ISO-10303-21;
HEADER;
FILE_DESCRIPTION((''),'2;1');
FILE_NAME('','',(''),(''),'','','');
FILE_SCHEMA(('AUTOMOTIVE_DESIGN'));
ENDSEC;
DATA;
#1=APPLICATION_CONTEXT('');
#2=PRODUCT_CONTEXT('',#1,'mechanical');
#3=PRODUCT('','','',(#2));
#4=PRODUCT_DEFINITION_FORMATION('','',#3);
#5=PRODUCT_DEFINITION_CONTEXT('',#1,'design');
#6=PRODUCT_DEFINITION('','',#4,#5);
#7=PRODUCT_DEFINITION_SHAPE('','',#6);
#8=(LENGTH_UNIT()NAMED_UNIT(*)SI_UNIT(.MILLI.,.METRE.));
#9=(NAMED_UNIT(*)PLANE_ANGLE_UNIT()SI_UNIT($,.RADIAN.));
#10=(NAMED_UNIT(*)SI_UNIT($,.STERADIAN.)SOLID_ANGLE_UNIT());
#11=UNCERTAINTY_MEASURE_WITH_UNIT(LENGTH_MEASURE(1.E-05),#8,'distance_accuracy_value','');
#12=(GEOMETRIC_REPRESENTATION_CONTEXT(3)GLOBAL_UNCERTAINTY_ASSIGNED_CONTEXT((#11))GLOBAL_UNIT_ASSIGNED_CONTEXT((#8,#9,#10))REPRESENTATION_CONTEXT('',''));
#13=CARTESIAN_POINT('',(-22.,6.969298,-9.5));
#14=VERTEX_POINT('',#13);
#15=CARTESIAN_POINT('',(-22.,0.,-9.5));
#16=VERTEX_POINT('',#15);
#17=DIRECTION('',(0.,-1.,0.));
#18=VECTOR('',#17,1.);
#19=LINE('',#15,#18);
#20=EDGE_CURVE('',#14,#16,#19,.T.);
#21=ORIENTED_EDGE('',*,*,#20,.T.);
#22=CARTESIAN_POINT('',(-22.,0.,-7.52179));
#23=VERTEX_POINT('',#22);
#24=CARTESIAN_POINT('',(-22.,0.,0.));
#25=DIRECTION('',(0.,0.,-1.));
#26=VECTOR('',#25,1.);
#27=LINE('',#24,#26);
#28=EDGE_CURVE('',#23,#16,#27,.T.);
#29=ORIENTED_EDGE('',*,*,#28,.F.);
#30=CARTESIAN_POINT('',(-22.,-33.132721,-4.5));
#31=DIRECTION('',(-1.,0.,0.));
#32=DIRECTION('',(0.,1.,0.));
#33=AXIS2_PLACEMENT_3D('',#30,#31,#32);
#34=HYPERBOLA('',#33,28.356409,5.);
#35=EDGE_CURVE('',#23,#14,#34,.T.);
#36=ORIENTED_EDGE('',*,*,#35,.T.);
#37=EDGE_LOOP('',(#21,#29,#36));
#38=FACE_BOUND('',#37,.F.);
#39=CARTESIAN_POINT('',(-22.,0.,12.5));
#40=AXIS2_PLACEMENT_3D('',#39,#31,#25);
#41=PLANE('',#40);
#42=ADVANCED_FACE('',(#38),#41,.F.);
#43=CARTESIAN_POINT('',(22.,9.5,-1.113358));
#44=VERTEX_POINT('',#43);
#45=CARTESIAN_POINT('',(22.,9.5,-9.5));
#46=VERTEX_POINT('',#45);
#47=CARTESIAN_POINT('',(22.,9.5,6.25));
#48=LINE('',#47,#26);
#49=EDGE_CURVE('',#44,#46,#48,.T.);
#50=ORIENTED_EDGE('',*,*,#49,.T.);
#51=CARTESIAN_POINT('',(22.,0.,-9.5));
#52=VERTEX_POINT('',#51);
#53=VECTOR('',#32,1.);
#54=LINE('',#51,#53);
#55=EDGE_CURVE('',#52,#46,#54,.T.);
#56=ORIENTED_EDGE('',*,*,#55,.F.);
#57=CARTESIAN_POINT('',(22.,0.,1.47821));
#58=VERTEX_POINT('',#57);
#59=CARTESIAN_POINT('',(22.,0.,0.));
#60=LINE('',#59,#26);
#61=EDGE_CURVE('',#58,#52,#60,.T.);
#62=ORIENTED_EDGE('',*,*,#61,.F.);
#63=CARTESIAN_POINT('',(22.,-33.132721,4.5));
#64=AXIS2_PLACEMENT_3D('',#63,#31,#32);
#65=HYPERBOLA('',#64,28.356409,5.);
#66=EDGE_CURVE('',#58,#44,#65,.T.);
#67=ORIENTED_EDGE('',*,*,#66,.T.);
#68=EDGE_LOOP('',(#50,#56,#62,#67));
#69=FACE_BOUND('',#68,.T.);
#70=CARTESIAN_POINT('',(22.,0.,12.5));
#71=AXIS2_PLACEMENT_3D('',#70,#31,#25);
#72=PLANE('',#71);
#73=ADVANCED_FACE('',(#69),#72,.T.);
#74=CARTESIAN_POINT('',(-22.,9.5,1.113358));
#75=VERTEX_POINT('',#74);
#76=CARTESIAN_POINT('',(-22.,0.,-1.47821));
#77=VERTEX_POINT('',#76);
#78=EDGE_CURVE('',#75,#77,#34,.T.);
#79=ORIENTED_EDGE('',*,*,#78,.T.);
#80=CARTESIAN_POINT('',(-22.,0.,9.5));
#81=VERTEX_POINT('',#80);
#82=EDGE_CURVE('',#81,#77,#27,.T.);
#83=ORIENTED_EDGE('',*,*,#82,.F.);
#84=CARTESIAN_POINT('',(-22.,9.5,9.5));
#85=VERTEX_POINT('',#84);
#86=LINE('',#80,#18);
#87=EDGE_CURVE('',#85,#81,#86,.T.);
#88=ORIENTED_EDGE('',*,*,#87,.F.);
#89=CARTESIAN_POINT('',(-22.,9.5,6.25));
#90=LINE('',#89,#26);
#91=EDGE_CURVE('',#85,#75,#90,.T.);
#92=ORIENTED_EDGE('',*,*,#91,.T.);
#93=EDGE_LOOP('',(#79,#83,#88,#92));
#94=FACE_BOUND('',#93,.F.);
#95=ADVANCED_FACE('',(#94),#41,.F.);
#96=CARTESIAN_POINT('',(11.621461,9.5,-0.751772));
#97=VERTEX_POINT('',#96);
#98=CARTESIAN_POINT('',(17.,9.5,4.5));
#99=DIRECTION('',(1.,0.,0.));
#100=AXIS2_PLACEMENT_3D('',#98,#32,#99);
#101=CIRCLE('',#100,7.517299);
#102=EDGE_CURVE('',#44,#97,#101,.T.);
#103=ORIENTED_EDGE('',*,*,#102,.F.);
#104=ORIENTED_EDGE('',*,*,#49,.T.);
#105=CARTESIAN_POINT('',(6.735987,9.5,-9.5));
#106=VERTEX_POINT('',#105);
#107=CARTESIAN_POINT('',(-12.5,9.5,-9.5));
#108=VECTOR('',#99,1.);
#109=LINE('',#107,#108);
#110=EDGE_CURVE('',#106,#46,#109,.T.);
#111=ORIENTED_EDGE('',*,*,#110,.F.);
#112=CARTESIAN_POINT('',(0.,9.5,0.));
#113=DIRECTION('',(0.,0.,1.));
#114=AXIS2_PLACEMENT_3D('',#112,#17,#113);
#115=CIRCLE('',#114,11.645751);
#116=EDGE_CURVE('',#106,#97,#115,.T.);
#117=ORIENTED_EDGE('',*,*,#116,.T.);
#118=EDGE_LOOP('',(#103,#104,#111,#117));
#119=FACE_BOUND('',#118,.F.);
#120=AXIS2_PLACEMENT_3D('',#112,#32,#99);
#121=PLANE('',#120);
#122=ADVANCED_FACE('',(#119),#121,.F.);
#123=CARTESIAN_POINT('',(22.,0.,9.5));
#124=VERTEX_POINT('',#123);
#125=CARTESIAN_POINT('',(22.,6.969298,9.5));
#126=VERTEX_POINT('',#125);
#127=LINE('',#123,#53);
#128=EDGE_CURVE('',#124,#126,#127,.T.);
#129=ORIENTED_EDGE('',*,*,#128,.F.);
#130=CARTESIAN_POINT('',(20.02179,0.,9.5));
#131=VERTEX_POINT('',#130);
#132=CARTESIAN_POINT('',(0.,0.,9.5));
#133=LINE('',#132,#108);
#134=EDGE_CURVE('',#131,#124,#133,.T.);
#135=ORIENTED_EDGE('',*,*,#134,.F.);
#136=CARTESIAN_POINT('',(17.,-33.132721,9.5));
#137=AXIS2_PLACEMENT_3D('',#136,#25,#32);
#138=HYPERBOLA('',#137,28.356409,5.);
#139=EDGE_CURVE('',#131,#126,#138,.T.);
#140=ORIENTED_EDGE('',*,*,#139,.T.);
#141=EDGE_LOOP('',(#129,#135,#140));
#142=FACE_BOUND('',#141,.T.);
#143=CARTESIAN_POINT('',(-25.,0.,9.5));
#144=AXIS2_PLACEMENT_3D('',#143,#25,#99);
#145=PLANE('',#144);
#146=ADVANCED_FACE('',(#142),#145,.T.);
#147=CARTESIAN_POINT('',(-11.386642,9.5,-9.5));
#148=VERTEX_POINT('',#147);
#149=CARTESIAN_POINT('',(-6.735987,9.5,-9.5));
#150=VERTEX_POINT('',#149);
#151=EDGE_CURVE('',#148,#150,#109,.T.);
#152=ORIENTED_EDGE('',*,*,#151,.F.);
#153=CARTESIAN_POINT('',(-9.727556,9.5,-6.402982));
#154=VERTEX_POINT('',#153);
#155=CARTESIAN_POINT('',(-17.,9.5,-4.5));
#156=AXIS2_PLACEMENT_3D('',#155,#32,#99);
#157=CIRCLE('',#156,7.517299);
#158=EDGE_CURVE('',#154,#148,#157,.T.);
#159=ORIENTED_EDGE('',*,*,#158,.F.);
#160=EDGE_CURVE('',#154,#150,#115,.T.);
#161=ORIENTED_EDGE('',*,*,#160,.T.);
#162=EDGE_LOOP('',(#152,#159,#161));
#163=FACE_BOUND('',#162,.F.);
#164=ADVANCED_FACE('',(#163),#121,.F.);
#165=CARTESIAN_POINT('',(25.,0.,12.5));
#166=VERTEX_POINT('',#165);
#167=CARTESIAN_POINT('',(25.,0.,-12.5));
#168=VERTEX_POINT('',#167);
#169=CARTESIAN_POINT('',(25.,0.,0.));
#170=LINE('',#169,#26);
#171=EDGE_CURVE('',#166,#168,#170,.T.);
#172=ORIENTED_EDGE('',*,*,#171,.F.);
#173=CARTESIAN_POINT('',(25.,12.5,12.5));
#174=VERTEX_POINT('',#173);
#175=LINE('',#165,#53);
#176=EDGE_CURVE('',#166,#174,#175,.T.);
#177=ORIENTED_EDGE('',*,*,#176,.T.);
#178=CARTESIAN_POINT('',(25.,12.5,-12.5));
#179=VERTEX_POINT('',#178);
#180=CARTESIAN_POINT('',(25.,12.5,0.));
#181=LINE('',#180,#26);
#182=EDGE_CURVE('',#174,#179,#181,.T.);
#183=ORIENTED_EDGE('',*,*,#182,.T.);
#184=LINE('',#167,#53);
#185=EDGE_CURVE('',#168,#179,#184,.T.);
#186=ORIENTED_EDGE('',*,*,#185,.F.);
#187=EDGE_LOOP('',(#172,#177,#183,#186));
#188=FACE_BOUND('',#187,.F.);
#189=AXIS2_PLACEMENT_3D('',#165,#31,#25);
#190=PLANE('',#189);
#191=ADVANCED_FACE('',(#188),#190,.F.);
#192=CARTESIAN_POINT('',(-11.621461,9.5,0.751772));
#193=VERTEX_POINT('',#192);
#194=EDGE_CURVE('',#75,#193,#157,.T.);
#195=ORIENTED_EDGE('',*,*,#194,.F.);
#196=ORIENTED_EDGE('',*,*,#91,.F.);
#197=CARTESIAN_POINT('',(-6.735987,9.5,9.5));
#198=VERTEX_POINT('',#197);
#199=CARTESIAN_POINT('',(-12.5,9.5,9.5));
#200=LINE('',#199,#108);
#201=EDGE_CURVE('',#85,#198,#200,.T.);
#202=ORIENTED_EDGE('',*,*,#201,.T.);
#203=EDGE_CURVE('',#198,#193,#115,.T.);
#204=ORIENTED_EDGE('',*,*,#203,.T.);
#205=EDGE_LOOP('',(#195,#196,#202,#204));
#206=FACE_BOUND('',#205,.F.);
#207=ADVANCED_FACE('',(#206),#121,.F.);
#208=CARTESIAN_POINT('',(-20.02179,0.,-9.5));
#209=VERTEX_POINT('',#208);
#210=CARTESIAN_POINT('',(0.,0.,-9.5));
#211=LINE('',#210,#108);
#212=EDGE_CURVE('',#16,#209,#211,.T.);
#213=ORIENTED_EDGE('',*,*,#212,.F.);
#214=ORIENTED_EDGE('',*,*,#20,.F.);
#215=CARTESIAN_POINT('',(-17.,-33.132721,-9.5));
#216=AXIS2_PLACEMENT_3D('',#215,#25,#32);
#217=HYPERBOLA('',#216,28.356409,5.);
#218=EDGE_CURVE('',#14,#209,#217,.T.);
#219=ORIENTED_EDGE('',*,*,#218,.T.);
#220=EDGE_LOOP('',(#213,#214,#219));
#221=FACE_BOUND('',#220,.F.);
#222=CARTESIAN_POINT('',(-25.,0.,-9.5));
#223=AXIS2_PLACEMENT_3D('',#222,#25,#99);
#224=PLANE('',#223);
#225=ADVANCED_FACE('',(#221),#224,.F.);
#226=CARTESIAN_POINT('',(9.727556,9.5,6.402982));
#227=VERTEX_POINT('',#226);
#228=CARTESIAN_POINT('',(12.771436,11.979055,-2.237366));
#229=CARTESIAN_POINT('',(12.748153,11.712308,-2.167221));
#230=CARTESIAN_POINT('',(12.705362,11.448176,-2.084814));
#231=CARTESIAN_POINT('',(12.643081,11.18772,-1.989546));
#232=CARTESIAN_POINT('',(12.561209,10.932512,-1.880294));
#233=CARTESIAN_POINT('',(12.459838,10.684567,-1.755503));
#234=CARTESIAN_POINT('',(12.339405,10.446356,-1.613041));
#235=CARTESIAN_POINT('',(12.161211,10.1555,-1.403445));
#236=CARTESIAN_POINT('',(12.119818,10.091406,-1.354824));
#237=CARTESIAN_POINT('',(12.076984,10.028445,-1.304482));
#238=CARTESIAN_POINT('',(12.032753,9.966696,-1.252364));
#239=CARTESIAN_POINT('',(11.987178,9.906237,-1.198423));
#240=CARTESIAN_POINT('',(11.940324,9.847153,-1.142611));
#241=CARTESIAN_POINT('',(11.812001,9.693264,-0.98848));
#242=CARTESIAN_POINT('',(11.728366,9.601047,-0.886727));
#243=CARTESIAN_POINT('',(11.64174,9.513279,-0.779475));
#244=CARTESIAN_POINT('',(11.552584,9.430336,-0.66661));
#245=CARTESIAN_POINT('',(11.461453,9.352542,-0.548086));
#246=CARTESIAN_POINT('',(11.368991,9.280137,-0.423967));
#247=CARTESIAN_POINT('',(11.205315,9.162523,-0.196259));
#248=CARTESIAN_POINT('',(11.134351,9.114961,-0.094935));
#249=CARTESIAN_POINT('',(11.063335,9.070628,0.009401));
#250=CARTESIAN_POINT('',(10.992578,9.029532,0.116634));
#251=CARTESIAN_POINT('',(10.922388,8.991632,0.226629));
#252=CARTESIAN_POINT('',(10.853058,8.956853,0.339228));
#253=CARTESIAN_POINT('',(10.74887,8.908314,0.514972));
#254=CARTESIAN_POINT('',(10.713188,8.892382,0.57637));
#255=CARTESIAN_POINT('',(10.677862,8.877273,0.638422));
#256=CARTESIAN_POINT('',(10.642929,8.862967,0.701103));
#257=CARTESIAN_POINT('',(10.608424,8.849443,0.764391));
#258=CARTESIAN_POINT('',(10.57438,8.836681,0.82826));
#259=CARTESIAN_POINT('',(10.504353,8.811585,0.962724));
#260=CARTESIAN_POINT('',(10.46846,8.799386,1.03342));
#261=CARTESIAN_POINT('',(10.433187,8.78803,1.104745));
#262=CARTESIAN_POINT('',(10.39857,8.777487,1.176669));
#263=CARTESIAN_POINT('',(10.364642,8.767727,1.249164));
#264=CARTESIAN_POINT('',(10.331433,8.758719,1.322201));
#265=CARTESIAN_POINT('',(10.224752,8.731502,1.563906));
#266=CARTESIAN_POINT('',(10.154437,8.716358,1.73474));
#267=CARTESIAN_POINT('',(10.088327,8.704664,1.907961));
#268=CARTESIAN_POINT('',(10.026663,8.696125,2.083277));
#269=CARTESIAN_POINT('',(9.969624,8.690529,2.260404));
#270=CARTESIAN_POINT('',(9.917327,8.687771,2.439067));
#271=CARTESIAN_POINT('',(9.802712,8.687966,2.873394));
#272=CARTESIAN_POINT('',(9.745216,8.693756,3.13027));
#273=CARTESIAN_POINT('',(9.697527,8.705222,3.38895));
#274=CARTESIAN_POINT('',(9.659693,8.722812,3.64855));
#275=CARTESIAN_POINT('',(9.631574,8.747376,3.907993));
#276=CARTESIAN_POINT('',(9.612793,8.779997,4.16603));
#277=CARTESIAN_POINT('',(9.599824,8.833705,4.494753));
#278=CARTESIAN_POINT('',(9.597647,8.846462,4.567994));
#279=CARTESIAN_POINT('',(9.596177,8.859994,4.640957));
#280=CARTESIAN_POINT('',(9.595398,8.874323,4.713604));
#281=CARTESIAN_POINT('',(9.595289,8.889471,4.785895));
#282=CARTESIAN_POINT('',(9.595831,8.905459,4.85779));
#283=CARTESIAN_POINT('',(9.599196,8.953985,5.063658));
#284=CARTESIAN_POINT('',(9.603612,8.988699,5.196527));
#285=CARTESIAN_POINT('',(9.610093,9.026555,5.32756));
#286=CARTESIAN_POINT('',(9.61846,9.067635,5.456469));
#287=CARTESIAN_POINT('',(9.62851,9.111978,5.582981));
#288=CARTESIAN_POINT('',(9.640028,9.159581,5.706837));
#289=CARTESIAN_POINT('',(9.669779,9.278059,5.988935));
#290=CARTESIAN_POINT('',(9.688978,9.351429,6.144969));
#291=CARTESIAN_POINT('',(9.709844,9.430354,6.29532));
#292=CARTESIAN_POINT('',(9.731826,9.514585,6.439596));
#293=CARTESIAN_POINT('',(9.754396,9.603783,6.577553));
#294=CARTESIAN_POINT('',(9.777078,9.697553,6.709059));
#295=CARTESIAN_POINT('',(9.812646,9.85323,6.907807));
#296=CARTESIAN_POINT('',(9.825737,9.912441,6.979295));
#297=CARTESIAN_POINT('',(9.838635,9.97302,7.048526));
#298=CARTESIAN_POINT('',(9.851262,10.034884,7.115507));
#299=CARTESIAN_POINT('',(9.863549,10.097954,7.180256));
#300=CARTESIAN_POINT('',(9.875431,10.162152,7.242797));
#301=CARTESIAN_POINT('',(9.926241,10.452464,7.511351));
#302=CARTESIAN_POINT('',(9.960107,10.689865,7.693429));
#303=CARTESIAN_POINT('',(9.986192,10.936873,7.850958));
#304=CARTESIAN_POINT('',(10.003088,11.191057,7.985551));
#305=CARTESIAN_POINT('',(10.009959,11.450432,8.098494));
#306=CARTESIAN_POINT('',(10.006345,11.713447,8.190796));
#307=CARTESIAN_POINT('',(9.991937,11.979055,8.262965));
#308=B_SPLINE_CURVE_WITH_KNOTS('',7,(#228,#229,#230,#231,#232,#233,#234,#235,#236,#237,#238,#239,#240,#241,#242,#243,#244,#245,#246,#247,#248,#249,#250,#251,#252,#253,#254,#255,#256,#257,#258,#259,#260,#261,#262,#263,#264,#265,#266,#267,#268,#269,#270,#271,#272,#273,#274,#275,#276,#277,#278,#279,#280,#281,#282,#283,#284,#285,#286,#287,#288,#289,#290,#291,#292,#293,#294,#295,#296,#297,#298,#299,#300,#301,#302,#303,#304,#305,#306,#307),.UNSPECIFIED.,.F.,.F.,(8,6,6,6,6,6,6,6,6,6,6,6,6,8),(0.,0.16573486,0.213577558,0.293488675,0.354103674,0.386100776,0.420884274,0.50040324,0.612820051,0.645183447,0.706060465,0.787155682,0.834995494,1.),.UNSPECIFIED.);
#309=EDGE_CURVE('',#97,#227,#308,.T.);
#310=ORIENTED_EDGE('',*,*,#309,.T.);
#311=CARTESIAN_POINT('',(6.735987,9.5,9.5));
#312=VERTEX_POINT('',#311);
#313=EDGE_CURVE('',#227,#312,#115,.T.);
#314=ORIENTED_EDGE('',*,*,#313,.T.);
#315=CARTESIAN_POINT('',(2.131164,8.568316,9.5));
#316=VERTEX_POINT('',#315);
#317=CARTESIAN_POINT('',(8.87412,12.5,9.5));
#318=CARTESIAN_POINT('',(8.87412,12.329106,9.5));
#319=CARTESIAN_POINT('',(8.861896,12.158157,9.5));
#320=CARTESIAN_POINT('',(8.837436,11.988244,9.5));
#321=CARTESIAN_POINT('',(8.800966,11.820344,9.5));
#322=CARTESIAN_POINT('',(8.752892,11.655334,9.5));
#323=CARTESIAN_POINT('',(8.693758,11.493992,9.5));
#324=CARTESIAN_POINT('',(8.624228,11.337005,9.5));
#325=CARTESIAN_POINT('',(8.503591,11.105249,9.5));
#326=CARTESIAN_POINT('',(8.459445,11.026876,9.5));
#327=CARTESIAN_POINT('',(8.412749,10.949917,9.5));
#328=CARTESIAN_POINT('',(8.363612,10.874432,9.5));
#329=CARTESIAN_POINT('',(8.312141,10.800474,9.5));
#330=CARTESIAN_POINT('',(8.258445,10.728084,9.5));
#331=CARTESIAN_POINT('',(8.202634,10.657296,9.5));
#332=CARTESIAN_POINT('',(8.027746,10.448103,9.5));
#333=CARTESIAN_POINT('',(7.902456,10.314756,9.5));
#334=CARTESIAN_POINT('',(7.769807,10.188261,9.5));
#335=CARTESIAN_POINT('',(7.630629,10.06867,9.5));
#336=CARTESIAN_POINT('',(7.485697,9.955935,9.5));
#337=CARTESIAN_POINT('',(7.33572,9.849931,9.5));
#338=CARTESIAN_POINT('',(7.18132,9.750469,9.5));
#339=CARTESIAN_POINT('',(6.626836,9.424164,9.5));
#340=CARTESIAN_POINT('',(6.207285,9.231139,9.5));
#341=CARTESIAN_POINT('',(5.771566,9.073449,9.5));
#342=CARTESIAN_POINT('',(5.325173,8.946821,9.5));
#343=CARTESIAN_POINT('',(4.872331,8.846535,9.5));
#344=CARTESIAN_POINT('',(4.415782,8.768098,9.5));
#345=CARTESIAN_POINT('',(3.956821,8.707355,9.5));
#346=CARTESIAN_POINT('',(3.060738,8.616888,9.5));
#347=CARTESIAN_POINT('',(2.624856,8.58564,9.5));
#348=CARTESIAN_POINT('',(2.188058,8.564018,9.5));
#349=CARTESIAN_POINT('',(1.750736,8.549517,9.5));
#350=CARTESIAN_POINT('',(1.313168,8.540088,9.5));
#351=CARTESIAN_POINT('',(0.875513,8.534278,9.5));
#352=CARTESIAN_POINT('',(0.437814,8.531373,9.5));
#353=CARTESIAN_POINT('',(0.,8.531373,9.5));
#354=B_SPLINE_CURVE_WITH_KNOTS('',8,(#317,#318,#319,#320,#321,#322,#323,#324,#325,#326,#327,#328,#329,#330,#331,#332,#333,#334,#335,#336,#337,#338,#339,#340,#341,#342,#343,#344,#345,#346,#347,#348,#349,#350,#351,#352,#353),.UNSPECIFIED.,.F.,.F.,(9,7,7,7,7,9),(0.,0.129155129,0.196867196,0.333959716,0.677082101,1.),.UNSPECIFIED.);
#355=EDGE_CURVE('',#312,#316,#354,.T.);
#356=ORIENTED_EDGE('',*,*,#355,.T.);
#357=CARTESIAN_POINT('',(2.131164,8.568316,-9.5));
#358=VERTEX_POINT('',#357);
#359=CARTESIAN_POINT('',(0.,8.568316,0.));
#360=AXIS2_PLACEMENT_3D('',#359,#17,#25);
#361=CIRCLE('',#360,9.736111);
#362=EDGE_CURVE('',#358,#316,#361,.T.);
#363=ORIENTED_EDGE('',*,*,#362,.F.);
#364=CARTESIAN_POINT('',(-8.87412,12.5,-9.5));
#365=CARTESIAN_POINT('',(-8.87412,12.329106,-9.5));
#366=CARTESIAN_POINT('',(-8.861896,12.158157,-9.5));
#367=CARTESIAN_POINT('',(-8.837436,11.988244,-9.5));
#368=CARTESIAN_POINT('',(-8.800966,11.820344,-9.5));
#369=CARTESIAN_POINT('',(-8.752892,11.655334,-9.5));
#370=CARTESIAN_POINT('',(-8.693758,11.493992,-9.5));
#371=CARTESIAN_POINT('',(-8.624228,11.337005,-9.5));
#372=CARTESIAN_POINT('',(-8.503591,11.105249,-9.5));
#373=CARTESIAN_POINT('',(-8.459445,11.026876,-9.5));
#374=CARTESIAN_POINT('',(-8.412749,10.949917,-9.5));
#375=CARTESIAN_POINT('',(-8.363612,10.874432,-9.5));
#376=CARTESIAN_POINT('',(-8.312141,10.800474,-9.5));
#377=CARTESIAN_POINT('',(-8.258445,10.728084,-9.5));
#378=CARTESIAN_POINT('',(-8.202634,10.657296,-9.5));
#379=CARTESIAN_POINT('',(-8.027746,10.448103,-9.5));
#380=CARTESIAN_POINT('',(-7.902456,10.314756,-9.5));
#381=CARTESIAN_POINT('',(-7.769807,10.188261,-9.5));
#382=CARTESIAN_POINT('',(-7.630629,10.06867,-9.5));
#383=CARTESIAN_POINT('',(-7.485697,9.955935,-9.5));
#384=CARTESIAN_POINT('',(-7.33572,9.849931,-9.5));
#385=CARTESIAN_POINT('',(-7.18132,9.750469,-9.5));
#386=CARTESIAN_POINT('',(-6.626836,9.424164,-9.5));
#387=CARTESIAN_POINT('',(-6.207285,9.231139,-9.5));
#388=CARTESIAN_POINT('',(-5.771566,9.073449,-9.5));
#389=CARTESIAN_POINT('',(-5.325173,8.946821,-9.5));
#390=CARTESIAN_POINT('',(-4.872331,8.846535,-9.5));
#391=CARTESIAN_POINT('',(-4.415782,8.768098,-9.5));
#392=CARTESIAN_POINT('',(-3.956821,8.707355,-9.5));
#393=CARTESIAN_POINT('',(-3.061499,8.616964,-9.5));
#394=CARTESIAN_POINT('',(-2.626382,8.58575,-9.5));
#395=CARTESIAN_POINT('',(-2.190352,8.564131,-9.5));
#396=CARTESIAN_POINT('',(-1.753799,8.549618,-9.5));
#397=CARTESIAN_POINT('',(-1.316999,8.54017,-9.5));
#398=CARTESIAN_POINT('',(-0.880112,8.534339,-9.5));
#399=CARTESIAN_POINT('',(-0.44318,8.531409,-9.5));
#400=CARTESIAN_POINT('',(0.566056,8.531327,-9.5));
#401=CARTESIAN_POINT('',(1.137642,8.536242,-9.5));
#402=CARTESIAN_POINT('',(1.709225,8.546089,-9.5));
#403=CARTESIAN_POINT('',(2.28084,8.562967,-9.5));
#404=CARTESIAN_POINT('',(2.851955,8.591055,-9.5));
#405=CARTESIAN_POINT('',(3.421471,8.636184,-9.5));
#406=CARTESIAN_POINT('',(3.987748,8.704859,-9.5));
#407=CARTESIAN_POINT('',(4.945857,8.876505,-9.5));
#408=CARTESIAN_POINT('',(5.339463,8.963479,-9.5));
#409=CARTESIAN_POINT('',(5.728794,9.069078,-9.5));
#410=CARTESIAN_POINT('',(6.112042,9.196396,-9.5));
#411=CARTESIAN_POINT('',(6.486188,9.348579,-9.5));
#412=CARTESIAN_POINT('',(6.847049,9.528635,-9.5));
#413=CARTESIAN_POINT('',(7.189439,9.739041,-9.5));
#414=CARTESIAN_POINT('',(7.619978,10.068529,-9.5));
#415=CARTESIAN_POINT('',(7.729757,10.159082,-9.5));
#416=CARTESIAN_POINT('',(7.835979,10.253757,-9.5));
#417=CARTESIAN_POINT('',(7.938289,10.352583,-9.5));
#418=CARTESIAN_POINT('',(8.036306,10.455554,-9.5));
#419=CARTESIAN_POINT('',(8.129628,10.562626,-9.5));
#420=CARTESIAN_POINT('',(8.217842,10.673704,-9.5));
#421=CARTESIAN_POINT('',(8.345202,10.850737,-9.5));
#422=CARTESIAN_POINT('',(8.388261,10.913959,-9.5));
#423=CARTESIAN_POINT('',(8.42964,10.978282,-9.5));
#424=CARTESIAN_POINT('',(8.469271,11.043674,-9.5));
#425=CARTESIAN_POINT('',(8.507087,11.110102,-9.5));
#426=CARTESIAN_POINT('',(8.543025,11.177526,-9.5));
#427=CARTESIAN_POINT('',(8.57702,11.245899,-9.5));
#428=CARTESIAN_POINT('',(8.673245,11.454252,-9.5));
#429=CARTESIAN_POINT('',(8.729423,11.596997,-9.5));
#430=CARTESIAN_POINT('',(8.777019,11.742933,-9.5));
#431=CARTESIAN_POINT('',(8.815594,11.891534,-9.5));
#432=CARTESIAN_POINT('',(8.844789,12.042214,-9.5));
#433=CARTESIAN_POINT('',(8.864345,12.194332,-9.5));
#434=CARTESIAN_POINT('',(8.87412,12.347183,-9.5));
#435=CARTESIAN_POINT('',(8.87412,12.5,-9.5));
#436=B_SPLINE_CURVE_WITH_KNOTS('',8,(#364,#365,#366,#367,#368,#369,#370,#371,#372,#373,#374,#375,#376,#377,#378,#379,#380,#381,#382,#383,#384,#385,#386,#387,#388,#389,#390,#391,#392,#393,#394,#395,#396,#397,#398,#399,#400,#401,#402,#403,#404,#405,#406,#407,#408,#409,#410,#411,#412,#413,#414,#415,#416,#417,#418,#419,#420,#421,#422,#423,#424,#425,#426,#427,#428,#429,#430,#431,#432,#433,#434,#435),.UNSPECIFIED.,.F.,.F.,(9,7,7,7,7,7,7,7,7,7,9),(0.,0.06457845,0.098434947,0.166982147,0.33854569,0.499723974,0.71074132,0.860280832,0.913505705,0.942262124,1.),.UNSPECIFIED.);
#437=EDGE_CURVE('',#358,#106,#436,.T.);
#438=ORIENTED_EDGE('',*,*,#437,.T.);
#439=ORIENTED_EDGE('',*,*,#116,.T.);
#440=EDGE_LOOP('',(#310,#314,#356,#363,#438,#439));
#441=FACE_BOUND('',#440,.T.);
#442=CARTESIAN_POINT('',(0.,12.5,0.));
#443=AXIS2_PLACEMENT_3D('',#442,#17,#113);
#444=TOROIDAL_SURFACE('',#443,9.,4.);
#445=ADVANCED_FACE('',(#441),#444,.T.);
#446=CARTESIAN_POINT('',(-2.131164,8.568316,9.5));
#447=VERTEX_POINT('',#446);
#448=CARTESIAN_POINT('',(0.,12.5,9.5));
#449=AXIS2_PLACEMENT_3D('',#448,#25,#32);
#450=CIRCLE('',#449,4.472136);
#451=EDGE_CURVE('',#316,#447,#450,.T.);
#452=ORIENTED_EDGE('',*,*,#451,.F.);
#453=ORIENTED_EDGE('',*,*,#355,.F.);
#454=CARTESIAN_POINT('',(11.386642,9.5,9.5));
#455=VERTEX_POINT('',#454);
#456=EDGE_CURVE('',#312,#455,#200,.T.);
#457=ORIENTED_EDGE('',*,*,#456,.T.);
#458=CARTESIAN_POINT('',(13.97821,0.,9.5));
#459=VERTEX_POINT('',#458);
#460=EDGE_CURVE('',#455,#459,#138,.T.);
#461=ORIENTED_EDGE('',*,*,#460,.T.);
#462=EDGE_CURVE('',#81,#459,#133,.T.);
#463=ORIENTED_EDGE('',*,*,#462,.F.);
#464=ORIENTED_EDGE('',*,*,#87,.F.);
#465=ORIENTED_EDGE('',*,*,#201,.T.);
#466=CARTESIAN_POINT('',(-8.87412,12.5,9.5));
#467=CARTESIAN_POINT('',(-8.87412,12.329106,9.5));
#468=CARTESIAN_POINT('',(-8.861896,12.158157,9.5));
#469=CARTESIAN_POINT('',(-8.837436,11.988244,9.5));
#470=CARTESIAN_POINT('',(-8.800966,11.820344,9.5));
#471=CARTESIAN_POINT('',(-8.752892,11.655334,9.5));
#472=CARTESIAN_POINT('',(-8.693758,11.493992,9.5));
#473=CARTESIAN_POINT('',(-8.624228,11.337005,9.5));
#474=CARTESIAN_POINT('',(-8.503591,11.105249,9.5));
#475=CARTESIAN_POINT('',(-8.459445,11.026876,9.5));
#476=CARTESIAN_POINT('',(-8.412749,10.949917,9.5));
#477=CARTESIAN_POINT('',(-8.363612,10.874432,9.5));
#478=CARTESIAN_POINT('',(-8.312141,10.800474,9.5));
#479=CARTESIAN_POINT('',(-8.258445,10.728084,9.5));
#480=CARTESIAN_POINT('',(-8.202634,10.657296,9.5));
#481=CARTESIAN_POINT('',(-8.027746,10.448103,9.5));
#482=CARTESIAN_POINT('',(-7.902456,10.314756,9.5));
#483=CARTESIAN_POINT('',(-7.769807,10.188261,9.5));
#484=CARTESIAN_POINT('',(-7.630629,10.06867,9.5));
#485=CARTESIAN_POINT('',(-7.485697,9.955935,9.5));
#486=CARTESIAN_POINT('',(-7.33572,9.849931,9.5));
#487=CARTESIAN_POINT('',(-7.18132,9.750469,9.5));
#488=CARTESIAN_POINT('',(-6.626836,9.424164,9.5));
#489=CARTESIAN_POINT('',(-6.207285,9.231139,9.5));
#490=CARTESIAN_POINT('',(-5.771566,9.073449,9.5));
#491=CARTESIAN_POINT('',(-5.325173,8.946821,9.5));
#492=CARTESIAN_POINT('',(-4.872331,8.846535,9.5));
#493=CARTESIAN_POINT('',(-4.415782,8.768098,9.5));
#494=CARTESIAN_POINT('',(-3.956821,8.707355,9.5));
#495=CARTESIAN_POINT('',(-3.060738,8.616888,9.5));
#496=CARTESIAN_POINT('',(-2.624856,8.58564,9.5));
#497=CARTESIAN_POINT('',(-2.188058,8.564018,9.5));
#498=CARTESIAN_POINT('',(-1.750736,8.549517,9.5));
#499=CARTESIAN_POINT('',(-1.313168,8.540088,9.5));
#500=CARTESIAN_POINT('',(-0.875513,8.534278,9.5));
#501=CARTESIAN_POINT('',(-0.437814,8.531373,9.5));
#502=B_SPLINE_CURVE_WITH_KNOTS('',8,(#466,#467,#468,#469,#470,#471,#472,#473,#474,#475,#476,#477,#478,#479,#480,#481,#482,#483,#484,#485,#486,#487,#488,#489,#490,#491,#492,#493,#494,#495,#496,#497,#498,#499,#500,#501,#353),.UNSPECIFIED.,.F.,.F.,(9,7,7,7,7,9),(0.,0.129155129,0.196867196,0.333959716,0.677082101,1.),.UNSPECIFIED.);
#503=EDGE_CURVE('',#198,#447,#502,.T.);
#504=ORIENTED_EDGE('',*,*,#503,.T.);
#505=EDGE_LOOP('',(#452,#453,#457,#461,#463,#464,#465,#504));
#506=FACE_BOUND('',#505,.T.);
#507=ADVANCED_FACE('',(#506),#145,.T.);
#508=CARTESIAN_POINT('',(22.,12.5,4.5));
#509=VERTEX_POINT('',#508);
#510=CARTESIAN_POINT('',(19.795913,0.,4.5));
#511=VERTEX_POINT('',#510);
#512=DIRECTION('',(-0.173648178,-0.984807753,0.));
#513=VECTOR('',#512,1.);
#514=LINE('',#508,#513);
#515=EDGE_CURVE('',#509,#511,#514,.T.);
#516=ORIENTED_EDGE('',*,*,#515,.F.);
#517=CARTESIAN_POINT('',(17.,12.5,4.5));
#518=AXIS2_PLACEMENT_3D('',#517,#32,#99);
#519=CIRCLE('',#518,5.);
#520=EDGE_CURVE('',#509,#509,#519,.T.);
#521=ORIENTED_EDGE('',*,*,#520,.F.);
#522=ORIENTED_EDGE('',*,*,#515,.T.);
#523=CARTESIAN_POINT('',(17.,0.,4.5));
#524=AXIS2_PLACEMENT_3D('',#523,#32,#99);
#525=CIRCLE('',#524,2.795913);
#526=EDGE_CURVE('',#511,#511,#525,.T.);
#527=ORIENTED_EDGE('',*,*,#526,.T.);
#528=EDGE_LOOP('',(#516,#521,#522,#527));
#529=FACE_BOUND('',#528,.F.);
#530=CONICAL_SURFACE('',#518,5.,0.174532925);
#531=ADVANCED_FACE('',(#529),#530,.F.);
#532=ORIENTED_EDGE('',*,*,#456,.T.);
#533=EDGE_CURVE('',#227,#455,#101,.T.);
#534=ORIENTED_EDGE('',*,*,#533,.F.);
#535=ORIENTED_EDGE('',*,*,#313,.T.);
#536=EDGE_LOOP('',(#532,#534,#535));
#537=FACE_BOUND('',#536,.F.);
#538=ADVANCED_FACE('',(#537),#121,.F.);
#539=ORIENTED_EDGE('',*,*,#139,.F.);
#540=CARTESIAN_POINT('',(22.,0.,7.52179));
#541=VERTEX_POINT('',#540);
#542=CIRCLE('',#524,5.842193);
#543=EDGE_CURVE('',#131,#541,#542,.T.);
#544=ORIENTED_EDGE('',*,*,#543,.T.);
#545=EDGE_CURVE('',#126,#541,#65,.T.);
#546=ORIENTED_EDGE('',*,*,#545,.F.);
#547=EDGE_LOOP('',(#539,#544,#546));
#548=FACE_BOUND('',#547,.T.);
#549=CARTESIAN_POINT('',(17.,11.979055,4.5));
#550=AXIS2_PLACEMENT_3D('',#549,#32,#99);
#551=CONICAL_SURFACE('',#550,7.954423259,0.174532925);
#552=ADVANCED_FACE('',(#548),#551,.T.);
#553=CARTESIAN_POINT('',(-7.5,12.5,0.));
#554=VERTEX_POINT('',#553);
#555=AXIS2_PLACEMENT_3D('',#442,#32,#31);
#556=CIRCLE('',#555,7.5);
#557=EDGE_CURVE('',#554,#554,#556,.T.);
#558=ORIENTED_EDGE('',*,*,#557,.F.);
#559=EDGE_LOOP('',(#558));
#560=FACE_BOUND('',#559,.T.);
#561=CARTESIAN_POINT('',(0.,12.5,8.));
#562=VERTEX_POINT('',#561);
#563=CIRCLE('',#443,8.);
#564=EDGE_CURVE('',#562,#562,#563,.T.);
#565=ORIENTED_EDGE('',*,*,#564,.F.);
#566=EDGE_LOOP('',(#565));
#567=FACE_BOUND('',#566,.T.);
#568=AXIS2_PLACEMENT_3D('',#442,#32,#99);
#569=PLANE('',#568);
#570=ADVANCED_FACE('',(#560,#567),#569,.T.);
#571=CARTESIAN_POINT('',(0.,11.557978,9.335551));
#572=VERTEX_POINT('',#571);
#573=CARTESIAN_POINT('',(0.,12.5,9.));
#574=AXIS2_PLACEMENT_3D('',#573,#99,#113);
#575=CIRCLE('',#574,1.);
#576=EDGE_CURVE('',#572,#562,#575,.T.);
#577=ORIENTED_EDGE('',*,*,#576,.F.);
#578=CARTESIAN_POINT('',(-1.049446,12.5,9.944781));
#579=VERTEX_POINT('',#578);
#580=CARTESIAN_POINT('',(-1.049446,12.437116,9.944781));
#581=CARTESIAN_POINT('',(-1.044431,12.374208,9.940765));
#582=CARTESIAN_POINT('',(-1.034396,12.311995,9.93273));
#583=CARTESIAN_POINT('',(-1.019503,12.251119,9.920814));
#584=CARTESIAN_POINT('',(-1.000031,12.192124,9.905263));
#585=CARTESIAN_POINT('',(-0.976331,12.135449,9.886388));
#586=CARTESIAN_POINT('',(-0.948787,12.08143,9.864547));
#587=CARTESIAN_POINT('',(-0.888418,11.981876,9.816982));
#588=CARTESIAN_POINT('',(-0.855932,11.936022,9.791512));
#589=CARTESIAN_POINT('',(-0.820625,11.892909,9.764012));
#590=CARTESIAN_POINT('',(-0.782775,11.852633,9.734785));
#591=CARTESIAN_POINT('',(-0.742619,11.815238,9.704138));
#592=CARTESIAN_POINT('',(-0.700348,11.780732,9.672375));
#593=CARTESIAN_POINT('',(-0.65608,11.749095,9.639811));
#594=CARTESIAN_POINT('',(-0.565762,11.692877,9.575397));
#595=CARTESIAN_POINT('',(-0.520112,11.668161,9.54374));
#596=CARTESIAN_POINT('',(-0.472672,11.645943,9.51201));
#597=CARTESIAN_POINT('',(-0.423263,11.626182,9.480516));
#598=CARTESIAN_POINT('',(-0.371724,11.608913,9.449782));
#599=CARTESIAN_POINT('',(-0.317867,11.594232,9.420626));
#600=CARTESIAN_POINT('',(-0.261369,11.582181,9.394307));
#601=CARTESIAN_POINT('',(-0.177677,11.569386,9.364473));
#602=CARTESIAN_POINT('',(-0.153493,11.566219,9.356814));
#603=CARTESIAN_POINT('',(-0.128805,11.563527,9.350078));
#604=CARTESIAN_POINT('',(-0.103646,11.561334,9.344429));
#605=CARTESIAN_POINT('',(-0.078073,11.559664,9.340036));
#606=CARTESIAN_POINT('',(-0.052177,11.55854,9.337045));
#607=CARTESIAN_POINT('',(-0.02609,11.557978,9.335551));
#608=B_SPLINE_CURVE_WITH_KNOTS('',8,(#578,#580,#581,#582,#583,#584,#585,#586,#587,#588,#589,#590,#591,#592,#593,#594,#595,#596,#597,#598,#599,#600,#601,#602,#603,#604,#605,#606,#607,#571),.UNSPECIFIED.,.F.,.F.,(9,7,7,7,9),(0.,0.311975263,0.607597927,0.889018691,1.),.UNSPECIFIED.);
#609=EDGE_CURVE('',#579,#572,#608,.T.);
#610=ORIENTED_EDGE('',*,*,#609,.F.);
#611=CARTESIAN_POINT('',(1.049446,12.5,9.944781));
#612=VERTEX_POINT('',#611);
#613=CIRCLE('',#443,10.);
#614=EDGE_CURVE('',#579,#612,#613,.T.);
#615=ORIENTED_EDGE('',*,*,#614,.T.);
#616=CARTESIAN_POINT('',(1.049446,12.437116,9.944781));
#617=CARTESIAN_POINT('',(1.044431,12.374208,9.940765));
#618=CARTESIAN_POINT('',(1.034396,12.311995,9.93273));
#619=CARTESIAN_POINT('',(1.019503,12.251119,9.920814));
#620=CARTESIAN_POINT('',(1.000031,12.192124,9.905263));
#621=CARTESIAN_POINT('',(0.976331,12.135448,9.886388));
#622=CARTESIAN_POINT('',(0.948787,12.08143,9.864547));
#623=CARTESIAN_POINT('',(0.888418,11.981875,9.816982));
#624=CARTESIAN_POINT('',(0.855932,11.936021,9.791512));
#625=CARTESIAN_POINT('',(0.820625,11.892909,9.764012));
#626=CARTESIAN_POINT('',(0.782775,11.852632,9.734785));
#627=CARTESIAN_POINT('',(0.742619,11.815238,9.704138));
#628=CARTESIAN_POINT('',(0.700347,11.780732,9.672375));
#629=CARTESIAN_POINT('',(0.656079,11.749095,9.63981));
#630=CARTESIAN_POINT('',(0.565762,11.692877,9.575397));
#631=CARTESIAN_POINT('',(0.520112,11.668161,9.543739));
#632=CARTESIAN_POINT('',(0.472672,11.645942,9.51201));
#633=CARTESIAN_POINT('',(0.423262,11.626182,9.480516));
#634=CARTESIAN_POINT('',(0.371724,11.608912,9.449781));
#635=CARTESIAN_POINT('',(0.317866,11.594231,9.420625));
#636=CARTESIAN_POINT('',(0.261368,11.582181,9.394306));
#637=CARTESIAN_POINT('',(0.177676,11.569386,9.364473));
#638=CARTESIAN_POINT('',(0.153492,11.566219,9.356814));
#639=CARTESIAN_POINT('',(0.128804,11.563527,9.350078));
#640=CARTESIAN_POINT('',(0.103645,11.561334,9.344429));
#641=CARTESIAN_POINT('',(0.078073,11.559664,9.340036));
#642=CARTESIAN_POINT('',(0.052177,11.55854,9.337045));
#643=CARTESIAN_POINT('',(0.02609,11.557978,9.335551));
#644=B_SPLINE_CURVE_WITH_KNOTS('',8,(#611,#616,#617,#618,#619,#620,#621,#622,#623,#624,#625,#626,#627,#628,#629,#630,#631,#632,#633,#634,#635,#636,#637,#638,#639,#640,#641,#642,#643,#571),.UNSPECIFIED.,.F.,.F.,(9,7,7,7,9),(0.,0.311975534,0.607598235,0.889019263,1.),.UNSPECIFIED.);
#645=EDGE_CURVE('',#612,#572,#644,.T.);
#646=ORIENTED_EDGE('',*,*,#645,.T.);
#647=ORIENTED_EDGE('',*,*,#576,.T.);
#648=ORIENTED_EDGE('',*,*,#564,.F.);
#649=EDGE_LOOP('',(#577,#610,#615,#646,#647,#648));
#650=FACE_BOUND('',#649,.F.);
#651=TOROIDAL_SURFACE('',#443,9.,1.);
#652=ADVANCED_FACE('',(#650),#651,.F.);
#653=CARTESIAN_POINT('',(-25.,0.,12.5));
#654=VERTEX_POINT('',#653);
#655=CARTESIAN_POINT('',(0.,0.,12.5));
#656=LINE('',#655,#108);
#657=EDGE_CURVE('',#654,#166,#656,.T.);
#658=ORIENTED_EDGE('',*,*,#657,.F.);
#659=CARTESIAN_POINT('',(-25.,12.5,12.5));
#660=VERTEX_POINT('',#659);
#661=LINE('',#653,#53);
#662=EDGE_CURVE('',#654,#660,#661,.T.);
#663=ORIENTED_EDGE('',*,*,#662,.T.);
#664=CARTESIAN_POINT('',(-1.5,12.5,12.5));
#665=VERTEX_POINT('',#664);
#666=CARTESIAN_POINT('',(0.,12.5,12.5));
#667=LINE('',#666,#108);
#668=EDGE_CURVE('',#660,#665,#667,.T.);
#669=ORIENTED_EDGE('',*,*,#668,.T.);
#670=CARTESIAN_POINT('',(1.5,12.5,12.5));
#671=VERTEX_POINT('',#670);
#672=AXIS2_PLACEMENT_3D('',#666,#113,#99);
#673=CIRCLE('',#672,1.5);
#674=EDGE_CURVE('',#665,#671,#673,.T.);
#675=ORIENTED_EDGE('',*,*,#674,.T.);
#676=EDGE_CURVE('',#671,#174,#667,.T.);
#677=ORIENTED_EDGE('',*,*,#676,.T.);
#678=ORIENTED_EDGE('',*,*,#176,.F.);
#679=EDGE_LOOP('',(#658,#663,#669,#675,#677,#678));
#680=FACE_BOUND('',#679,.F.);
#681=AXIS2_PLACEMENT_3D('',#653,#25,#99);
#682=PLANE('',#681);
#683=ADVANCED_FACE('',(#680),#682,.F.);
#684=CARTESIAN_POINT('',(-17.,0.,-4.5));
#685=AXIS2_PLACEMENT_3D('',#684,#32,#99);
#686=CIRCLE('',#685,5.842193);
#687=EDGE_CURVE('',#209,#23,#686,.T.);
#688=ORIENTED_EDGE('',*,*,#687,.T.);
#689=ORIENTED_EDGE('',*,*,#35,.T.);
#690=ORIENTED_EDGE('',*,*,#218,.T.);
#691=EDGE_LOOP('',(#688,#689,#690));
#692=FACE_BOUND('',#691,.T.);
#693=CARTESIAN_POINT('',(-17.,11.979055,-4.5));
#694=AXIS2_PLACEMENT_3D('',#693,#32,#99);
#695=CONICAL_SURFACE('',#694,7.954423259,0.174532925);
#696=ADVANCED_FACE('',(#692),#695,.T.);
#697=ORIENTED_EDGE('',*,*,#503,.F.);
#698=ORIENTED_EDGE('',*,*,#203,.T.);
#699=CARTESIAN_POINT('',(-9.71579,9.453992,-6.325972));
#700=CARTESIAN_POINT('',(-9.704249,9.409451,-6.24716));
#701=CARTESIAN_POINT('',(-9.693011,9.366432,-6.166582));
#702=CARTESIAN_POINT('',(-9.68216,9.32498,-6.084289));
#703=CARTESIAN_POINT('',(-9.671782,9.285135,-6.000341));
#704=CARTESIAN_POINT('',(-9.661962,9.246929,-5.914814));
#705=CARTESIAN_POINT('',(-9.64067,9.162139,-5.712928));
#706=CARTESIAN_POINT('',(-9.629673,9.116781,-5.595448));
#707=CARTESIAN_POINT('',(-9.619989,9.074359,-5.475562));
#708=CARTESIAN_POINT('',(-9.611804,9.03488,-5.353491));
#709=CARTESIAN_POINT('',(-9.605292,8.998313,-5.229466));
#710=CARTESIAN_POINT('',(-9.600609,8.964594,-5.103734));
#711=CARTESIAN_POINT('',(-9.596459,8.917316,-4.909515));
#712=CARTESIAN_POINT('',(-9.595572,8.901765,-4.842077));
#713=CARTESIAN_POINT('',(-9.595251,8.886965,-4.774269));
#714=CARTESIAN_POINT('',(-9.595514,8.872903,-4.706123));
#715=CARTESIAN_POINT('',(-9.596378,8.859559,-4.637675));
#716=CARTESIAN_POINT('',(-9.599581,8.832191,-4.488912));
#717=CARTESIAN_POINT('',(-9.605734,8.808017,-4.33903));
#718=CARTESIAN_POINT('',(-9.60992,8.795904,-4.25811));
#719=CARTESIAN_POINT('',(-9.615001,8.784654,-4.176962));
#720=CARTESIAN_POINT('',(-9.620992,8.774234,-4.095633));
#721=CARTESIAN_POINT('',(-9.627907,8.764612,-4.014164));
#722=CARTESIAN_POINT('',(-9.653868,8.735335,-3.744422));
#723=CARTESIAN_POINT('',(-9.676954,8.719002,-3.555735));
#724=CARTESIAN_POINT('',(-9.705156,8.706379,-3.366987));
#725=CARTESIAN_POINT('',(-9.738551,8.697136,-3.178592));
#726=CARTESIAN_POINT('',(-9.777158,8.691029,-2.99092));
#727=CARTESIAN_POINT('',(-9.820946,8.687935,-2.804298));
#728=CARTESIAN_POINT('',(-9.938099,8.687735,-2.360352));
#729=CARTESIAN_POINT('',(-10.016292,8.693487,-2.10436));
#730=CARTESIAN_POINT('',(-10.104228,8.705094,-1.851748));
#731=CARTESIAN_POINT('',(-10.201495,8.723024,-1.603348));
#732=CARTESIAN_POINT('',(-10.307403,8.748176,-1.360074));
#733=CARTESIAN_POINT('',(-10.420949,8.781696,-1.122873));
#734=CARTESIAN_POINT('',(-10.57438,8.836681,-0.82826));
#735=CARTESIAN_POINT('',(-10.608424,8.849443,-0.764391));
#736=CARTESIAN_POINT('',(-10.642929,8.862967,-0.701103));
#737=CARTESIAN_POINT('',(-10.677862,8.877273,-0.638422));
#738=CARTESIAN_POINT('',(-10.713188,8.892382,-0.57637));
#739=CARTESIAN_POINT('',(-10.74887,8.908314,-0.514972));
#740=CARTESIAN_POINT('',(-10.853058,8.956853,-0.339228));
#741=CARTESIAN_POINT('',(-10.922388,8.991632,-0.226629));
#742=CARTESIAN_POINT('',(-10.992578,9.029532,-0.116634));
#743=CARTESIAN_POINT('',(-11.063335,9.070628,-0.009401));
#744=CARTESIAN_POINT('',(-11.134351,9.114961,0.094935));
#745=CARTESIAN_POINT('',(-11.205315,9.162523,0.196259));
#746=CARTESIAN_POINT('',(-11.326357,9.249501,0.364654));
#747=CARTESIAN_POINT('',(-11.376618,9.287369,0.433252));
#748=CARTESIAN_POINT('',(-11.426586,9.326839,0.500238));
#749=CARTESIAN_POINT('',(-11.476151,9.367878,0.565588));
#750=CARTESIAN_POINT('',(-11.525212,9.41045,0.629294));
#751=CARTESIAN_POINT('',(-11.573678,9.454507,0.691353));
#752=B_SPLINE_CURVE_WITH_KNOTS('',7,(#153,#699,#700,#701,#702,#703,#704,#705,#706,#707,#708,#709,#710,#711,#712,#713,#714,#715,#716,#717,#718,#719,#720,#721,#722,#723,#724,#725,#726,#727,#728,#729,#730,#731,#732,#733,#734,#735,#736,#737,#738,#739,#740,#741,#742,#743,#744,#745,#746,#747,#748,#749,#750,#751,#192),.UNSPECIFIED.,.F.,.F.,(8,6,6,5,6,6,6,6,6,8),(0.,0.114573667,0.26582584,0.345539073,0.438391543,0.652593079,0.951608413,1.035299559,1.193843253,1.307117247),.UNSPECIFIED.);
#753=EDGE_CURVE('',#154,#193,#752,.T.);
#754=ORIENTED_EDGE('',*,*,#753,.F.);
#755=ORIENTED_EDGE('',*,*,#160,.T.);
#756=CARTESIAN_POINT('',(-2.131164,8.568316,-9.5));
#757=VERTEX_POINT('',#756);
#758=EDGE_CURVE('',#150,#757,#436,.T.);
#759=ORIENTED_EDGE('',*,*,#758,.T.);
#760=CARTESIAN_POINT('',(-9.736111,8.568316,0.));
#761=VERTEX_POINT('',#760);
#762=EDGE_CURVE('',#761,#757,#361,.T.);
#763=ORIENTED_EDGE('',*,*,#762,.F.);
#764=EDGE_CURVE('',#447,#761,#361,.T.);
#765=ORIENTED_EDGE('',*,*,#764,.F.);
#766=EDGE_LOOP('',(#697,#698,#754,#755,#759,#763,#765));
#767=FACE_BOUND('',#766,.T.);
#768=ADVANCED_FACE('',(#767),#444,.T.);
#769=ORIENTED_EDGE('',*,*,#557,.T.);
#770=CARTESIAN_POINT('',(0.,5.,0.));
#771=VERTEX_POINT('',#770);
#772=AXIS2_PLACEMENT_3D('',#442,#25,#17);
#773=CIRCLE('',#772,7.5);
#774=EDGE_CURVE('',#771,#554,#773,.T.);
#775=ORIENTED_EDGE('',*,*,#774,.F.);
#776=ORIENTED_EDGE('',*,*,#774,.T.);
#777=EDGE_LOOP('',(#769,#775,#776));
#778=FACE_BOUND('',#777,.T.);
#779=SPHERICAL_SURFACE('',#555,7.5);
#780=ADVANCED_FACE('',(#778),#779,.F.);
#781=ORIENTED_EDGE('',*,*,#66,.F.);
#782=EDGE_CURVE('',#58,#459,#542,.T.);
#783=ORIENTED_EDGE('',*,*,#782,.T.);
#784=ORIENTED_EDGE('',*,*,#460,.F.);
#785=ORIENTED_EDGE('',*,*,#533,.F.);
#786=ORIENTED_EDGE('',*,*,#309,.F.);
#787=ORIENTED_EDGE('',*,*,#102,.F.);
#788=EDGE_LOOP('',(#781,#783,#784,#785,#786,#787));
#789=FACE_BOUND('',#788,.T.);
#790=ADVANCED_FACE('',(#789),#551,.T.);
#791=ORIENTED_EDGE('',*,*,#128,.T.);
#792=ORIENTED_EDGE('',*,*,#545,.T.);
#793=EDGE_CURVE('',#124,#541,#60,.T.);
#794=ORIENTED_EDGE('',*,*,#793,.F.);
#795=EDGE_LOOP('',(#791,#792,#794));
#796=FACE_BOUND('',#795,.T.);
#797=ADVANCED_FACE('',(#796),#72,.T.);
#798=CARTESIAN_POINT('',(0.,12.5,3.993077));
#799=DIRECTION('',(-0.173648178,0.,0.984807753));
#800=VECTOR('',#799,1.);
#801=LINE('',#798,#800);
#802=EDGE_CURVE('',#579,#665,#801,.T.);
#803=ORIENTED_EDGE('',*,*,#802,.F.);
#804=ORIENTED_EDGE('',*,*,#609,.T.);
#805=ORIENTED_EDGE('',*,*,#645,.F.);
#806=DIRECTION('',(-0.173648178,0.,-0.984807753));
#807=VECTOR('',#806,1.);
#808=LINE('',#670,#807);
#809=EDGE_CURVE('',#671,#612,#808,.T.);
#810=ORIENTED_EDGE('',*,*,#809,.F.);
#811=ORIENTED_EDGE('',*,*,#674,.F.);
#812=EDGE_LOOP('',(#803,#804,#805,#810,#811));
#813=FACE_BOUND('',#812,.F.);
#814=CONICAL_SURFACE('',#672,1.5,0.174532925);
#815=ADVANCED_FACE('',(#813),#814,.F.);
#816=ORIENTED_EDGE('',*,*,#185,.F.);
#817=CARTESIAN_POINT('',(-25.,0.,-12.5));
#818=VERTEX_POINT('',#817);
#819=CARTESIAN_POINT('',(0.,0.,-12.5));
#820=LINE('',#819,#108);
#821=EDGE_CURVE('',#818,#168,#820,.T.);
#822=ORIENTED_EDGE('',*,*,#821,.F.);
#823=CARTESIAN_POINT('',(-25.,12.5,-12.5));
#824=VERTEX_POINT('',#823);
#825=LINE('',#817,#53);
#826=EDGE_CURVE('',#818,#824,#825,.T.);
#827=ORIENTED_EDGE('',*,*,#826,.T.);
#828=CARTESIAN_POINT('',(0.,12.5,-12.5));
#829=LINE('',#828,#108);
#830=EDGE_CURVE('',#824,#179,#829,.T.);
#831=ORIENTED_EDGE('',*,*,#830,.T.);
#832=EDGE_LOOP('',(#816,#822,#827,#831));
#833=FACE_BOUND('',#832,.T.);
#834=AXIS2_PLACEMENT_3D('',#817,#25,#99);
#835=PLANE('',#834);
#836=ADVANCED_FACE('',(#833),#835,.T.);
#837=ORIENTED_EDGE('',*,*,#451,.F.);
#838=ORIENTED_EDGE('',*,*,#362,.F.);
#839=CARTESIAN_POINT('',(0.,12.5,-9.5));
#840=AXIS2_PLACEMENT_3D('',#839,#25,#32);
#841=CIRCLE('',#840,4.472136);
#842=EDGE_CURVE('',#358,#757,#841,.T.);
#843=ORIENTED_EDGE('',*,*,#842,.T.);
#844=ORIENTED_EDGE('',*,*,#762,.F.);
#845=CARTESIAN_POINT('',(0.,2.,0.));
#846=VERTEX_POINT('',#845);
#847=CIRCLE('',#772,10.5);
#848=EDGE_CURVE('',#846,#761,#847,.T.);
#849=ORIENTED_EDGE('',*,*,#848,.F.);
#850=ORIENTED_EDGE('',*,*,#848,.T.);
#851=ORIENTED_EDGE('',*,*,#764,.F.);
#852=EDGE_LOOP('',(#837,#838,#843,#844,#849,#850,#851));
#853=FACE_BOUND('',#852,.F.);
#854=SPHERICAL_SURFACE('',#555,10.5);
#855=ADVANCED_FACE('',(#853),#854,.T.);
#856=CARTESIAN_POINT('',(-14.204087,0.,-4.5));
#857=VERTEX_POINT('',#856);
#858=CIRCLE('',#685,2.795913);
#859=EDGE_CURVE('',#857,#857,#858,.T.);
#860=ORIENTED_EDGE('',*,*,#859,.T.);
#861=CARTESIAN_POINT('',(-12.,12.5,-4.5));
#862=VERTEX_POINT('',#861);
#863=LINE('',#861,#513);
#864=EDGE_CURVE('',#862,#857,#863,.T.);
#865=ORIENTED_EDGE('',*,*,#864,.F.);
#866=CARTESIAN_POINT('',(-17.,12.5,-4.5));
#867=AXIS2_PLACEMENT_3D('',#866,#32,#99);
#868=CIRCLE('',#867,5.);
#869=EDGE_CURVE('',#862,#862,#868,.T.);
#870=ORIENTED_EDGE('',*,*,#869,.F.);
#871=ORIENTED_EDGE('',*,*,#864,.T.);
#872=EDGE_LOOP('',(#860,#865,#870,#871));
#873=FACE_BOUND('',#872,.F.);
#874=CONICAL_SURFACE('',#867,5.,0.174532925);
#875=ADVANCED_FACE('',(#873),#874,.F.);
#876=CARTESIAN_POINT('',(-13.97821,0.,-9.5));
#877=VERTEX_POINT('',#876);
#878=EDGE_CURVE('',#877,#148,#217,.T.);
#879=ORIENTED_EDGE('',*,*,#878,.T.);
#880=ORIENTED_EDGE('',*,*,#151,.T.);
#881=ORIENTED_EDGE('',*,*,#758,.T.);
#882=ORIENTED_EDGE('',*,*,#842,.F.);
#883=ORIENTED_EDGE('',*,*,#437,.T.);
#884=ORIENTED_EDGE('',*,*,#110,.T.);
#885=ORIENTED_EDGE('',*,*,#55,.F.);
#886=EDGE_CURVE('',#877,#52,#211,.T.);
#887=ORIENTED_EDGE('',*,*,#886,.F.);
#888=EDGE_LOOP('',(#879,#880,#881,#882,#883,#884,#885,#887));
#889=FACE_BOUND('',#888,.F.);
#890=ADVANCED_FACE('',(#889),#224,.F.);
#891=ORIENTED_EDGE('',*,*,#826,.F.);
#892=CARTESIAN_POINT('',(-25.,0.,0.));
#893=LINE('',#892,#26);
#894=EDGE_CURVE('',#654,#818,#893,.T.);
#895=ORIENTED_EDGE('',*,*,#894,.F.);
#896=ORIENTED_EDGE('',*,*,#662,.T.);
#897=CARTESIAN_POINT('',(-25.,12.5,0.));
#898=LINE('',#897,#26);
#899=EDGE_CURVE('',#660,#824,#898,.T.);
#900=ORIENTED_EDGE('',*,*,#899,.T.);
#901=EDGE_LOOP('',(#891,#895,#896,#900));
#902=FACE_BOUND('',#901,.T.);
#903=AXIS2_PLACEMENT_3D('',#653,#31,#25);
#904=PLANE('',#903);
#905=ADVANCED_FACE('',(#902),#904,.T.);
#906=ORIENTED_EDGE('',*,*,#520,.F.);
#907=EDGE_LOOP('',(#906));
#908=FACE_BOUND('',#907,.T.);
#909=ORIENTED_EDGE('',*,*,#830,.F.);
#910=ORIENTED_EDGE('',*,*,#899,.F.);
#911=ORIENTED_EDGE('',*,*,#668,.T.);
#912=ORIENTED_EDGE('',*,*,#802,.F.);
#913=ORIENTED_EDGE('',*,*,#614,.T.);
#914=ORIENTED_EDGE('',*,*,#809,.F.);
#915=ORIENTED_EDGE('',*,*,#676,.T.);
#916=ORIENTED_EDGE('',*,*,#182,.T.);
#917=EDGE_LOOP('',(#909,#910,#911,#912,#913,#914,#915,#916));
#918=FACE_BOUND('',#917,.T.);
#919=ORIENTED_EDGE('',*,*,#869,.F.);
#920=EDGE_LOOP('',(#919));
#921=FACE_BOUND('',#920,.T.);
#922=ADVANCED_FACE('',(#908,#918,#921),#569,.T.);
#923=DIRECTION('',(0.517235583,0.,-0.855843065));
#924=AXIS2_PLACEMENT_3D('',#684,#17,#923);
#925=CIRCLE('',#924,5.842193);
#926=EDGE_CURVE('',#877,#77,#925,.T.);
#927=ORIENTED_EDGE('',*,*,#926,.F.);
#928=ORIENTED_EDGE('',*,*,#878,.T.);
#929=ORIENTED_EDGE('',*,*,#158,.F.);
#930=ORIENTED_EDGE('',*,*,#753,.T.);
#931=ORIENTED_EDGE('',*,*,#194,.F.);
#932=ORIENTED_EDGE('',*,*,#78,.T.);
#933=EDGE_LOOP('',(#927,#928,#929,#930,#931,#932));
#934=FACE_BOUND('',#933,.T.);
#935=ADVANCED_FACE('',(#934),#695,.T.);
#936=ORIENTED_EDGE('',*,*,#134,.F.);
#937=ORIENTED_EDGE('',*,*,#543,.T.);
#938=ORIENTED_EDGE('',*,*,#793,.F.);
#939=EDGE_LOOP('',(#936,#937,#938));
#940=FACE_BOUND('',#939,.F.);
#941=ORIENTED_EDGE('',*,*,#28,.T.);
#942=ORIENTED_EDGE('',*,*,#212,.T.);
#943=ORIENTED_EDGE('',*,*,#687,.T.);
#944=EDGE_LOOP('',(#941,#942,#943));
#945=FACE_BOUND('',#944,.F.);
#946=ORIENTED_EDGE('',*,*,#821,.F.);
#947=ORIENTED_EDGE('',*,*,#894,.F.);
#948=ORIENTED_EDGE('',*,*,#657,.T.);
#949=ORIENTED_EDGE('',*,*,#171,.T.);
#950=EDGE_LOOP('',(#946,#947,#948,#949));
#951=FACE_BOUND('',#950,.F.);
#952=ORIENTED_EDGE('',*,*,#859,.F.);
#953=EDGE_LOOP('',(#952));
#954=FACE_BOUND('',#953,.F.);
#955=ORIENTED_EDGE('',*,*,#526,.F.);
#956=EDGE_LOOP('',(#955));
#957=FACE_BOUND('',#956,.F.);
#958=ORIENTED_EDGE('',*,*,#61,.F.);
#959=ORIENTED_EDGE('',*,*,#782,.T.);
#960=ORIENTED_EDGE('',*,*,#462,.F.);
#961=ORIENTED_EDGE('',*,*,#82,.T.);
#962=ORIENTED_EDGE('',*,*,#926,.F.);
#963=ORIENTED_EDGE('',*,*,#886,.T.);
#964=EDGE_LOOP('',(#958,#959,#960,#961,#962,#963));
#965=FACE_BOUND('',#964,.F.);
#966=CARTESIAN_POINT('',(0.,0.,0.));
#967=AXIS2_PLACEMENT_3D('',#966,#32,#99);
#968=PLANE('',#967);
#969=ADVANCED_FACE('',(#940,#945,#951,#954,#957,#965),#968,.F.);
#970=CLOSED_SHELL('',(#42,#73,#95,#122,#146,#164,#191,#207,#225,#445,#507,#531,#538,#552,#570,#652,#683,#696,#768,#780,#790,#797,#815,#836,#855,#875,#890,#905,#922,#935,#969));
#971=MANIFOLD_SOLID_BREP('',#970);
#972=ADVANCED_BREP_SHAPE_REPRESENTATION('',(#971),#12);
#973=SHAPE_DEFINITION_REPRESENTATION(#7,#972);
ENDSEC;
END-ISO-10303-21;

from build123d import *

# Parameters (mm, degrees)
ESQUISSE1_W                       = 50
ESQUISSE1_H                       = 25
BOSS_EXTRU_1_DEPTH                = 12.5
ESQUISSE2_R                       = 5
ENL_V_MAT_EXTRU_1_DEPTH           = 13.5
ENL_V_MAT_EXTRU_1_DRAFT           = -10
ENL_V_MAT_EXTRU_1_PROFILE_2_DEPTH = 13.5
ENL_V_MAT_EXTRU_1_PROFILE_2_DRAFT = -10
COQUE1_T                          = -3
ESQUISSE5_R                       = 1.5
ENL_V_MAT_EXTRU_2_DEPTH           = 4
ENL_V_MAT_EXTRU_2_DRAFT           = -10


with BuildPart() as part:
    # Esquisse1 → Boss.-Extru.1 (new body)
    with BuildSketch(Plane(origin=(0, 0, 0), x_dir=(1, 0, 0), z_dir=(0, 1, 0))):
        Rectangle(ESQUISSE1_W, ESQUISSE1_H)
    extrude(amount=BOSS_EXTRU_1_DEPTH)


with BuildPart() as enl_v_mat_extru_1_tool:
    # Esquisse2 → Enlèv. mat.-Extru.1 (with draft: the straight prism first)
    with BuildSketch(Plane(origin=(0, 12.5, 0), x_dir=(1, 0, 0), z_dir=(0, 1, 0))):
        with Locations((17, -4.5)):
            Circle(ESQUISSE2_R)
    extrude(amount=-ENL_V_MAT_EXTRU_1_DEPTH)
    # Enlèv. mat.-Extru.1: the draft: its side faces are tilted about the plane it starts from
    enl_v_mat_extru_1_sides = [enl_v_mat_extru_1_tool.faces().sort_by_distance(p)[0] for p in [
        (12, 5.75, 4.5),
    ]]
    draft(enl_v_mat_extru_1_sides, Plane(origin=(0, 12.5, 0), x_dir=(1, 0, 0), z_dir=(0, 1, 0)), ENL_V_MAT_EXTRU_1_DRAFT)


with BuildPart() as part_1:
    add(part.part)

    # Enlèv. mat.-Extru.1: cut by enl_v_mat_extru_1_tool
    add(enl_v_mat_extru_1_tool.part, mode=Mode.SUBTRACT)


with BuildPart() as enl_v_mat_extru_1_profile_2_tool:
    # Esquisse2 → Enlèv. mat.-Extru.1 profile 2 (with draft: the straight prism first)
    with BuildSketch(Plane(origin=(0, 12.5, 0), x_dir=(1, 0, 0), z_dir=(0, 1, 0))):
        with Locations((-17, 4.5)):
            Circle(ESQUISSE2_R)
    extrude(amount=-ENL_V_MAT_EXTRU_1_PROFILE_2_DEPTH)
    # Enlèv. mat.-Extru.1 profile 2: the draft: its side faces are tilted about the plane it starts from
    enl_v_mat_extru_1_profile_2_sides = [enl_v_mat_extru_1_profile_2_tool.faces().sort_by_distance(p)[0] for p in [
        (-22, 5.75, -4.5),
    ]]
    draft(enl_v_mat_extru_1_profile_2_sides, Plane(origin=(0, 12.5, 0), x_dir=(1, 0, 0), z_dir=(0, 1, 0)), ENL_V_MAT_EXTRU_1_PROFILE_2_DRAFT)


with BuildPart() as part_2:
    add(part_1.part)

    # Enlèv. mat.-Extru.1 profile 2: cut by enl_v_mat_extru_1_profile_2_tool
    add(enl_v_mat_extru_1_profile_2_tool.part, mode=Mode.SUBTRACT)

    # Esquisse3 → Enlèvement de matière-Révolution1 (revolve, cut)
    with BuildSketch(Plane.XY):
        with BuildLine():
            Line((0, 20), (0, 5))
            ThreePointArc((0, 5), (-7.5, 12.5), (0, 20))
        make_face()
    revolve(axis=Axis((0, 20, 0), (0, -1, 0)), mode=Mode.SUBTRACT)

    # Esquisse4 → Enlèvement de matière-Révolution3 (revolve, cut)
    with BuildSketch(Plane.XY, mode=Mode.PRIVATE) as enl_vement_de_mati_re_r_volution3_sk:
        with BuildLine():
            Line((8, 12.5), (10, 12.5))
            ThreePointArc((10, 12.5), (9, 11.5), (8, 12.5))
        make_face()
    revolve(enl_vement_de_mati_re_r_volution3_sk.sketch.rotate(Axis((0, 20, 0), (0, -1, 0)), 90), axis=Axis((0, 20, 0), (0, -1, 0)), mode=Mode.SUBTRACT)

    # Coque1
    coque1_openings = [part_2.faces().sort_by_distance(p)[0] for p in [
        (0, 0, 0),
    ]]
    offset(amount=COQUE1_T, openings=coque1_openings)


with BuildPart() as enl_v_mat_extru_2_tool:
    # Esquisse5 → Enlèv. mat.-Extru.2 (with draft: the straight prism first)
    with BuildSketch(Plane.XY.offset(12.5)):
        with Locations((0, 12.5)):
            Circle(ESQUISSE5_R)
    extrude(amount=-ENL_V_MAT_EXTRU_2_DEPTH)
    # Enlèv. mat.-Extru.2: the draft: its side faces are tilted about the plane it starts from
    enl_v_mat_extru_2_sides = [enl_v_mat_extru_2_tool.faces().sort_by_distance(p)[0] for p in [
        (-1.5, 12.5, 10.5),
    ]]
    draft(enl_v_mat_extru_2_sides, Plane.XY.offset(12.5), ENL_V_MAT_EXTRU_2_DRAFT)


with BuildPart() as part_3:
    add(part_2.part)

    # Enlèv. mat.-Extru.2: cut by enl_v_mat_extru_2_tool
    add(enl_v_mat_extru_2_tool.part, mode=Mode.SUBTRACT)


solid = part_3.part
